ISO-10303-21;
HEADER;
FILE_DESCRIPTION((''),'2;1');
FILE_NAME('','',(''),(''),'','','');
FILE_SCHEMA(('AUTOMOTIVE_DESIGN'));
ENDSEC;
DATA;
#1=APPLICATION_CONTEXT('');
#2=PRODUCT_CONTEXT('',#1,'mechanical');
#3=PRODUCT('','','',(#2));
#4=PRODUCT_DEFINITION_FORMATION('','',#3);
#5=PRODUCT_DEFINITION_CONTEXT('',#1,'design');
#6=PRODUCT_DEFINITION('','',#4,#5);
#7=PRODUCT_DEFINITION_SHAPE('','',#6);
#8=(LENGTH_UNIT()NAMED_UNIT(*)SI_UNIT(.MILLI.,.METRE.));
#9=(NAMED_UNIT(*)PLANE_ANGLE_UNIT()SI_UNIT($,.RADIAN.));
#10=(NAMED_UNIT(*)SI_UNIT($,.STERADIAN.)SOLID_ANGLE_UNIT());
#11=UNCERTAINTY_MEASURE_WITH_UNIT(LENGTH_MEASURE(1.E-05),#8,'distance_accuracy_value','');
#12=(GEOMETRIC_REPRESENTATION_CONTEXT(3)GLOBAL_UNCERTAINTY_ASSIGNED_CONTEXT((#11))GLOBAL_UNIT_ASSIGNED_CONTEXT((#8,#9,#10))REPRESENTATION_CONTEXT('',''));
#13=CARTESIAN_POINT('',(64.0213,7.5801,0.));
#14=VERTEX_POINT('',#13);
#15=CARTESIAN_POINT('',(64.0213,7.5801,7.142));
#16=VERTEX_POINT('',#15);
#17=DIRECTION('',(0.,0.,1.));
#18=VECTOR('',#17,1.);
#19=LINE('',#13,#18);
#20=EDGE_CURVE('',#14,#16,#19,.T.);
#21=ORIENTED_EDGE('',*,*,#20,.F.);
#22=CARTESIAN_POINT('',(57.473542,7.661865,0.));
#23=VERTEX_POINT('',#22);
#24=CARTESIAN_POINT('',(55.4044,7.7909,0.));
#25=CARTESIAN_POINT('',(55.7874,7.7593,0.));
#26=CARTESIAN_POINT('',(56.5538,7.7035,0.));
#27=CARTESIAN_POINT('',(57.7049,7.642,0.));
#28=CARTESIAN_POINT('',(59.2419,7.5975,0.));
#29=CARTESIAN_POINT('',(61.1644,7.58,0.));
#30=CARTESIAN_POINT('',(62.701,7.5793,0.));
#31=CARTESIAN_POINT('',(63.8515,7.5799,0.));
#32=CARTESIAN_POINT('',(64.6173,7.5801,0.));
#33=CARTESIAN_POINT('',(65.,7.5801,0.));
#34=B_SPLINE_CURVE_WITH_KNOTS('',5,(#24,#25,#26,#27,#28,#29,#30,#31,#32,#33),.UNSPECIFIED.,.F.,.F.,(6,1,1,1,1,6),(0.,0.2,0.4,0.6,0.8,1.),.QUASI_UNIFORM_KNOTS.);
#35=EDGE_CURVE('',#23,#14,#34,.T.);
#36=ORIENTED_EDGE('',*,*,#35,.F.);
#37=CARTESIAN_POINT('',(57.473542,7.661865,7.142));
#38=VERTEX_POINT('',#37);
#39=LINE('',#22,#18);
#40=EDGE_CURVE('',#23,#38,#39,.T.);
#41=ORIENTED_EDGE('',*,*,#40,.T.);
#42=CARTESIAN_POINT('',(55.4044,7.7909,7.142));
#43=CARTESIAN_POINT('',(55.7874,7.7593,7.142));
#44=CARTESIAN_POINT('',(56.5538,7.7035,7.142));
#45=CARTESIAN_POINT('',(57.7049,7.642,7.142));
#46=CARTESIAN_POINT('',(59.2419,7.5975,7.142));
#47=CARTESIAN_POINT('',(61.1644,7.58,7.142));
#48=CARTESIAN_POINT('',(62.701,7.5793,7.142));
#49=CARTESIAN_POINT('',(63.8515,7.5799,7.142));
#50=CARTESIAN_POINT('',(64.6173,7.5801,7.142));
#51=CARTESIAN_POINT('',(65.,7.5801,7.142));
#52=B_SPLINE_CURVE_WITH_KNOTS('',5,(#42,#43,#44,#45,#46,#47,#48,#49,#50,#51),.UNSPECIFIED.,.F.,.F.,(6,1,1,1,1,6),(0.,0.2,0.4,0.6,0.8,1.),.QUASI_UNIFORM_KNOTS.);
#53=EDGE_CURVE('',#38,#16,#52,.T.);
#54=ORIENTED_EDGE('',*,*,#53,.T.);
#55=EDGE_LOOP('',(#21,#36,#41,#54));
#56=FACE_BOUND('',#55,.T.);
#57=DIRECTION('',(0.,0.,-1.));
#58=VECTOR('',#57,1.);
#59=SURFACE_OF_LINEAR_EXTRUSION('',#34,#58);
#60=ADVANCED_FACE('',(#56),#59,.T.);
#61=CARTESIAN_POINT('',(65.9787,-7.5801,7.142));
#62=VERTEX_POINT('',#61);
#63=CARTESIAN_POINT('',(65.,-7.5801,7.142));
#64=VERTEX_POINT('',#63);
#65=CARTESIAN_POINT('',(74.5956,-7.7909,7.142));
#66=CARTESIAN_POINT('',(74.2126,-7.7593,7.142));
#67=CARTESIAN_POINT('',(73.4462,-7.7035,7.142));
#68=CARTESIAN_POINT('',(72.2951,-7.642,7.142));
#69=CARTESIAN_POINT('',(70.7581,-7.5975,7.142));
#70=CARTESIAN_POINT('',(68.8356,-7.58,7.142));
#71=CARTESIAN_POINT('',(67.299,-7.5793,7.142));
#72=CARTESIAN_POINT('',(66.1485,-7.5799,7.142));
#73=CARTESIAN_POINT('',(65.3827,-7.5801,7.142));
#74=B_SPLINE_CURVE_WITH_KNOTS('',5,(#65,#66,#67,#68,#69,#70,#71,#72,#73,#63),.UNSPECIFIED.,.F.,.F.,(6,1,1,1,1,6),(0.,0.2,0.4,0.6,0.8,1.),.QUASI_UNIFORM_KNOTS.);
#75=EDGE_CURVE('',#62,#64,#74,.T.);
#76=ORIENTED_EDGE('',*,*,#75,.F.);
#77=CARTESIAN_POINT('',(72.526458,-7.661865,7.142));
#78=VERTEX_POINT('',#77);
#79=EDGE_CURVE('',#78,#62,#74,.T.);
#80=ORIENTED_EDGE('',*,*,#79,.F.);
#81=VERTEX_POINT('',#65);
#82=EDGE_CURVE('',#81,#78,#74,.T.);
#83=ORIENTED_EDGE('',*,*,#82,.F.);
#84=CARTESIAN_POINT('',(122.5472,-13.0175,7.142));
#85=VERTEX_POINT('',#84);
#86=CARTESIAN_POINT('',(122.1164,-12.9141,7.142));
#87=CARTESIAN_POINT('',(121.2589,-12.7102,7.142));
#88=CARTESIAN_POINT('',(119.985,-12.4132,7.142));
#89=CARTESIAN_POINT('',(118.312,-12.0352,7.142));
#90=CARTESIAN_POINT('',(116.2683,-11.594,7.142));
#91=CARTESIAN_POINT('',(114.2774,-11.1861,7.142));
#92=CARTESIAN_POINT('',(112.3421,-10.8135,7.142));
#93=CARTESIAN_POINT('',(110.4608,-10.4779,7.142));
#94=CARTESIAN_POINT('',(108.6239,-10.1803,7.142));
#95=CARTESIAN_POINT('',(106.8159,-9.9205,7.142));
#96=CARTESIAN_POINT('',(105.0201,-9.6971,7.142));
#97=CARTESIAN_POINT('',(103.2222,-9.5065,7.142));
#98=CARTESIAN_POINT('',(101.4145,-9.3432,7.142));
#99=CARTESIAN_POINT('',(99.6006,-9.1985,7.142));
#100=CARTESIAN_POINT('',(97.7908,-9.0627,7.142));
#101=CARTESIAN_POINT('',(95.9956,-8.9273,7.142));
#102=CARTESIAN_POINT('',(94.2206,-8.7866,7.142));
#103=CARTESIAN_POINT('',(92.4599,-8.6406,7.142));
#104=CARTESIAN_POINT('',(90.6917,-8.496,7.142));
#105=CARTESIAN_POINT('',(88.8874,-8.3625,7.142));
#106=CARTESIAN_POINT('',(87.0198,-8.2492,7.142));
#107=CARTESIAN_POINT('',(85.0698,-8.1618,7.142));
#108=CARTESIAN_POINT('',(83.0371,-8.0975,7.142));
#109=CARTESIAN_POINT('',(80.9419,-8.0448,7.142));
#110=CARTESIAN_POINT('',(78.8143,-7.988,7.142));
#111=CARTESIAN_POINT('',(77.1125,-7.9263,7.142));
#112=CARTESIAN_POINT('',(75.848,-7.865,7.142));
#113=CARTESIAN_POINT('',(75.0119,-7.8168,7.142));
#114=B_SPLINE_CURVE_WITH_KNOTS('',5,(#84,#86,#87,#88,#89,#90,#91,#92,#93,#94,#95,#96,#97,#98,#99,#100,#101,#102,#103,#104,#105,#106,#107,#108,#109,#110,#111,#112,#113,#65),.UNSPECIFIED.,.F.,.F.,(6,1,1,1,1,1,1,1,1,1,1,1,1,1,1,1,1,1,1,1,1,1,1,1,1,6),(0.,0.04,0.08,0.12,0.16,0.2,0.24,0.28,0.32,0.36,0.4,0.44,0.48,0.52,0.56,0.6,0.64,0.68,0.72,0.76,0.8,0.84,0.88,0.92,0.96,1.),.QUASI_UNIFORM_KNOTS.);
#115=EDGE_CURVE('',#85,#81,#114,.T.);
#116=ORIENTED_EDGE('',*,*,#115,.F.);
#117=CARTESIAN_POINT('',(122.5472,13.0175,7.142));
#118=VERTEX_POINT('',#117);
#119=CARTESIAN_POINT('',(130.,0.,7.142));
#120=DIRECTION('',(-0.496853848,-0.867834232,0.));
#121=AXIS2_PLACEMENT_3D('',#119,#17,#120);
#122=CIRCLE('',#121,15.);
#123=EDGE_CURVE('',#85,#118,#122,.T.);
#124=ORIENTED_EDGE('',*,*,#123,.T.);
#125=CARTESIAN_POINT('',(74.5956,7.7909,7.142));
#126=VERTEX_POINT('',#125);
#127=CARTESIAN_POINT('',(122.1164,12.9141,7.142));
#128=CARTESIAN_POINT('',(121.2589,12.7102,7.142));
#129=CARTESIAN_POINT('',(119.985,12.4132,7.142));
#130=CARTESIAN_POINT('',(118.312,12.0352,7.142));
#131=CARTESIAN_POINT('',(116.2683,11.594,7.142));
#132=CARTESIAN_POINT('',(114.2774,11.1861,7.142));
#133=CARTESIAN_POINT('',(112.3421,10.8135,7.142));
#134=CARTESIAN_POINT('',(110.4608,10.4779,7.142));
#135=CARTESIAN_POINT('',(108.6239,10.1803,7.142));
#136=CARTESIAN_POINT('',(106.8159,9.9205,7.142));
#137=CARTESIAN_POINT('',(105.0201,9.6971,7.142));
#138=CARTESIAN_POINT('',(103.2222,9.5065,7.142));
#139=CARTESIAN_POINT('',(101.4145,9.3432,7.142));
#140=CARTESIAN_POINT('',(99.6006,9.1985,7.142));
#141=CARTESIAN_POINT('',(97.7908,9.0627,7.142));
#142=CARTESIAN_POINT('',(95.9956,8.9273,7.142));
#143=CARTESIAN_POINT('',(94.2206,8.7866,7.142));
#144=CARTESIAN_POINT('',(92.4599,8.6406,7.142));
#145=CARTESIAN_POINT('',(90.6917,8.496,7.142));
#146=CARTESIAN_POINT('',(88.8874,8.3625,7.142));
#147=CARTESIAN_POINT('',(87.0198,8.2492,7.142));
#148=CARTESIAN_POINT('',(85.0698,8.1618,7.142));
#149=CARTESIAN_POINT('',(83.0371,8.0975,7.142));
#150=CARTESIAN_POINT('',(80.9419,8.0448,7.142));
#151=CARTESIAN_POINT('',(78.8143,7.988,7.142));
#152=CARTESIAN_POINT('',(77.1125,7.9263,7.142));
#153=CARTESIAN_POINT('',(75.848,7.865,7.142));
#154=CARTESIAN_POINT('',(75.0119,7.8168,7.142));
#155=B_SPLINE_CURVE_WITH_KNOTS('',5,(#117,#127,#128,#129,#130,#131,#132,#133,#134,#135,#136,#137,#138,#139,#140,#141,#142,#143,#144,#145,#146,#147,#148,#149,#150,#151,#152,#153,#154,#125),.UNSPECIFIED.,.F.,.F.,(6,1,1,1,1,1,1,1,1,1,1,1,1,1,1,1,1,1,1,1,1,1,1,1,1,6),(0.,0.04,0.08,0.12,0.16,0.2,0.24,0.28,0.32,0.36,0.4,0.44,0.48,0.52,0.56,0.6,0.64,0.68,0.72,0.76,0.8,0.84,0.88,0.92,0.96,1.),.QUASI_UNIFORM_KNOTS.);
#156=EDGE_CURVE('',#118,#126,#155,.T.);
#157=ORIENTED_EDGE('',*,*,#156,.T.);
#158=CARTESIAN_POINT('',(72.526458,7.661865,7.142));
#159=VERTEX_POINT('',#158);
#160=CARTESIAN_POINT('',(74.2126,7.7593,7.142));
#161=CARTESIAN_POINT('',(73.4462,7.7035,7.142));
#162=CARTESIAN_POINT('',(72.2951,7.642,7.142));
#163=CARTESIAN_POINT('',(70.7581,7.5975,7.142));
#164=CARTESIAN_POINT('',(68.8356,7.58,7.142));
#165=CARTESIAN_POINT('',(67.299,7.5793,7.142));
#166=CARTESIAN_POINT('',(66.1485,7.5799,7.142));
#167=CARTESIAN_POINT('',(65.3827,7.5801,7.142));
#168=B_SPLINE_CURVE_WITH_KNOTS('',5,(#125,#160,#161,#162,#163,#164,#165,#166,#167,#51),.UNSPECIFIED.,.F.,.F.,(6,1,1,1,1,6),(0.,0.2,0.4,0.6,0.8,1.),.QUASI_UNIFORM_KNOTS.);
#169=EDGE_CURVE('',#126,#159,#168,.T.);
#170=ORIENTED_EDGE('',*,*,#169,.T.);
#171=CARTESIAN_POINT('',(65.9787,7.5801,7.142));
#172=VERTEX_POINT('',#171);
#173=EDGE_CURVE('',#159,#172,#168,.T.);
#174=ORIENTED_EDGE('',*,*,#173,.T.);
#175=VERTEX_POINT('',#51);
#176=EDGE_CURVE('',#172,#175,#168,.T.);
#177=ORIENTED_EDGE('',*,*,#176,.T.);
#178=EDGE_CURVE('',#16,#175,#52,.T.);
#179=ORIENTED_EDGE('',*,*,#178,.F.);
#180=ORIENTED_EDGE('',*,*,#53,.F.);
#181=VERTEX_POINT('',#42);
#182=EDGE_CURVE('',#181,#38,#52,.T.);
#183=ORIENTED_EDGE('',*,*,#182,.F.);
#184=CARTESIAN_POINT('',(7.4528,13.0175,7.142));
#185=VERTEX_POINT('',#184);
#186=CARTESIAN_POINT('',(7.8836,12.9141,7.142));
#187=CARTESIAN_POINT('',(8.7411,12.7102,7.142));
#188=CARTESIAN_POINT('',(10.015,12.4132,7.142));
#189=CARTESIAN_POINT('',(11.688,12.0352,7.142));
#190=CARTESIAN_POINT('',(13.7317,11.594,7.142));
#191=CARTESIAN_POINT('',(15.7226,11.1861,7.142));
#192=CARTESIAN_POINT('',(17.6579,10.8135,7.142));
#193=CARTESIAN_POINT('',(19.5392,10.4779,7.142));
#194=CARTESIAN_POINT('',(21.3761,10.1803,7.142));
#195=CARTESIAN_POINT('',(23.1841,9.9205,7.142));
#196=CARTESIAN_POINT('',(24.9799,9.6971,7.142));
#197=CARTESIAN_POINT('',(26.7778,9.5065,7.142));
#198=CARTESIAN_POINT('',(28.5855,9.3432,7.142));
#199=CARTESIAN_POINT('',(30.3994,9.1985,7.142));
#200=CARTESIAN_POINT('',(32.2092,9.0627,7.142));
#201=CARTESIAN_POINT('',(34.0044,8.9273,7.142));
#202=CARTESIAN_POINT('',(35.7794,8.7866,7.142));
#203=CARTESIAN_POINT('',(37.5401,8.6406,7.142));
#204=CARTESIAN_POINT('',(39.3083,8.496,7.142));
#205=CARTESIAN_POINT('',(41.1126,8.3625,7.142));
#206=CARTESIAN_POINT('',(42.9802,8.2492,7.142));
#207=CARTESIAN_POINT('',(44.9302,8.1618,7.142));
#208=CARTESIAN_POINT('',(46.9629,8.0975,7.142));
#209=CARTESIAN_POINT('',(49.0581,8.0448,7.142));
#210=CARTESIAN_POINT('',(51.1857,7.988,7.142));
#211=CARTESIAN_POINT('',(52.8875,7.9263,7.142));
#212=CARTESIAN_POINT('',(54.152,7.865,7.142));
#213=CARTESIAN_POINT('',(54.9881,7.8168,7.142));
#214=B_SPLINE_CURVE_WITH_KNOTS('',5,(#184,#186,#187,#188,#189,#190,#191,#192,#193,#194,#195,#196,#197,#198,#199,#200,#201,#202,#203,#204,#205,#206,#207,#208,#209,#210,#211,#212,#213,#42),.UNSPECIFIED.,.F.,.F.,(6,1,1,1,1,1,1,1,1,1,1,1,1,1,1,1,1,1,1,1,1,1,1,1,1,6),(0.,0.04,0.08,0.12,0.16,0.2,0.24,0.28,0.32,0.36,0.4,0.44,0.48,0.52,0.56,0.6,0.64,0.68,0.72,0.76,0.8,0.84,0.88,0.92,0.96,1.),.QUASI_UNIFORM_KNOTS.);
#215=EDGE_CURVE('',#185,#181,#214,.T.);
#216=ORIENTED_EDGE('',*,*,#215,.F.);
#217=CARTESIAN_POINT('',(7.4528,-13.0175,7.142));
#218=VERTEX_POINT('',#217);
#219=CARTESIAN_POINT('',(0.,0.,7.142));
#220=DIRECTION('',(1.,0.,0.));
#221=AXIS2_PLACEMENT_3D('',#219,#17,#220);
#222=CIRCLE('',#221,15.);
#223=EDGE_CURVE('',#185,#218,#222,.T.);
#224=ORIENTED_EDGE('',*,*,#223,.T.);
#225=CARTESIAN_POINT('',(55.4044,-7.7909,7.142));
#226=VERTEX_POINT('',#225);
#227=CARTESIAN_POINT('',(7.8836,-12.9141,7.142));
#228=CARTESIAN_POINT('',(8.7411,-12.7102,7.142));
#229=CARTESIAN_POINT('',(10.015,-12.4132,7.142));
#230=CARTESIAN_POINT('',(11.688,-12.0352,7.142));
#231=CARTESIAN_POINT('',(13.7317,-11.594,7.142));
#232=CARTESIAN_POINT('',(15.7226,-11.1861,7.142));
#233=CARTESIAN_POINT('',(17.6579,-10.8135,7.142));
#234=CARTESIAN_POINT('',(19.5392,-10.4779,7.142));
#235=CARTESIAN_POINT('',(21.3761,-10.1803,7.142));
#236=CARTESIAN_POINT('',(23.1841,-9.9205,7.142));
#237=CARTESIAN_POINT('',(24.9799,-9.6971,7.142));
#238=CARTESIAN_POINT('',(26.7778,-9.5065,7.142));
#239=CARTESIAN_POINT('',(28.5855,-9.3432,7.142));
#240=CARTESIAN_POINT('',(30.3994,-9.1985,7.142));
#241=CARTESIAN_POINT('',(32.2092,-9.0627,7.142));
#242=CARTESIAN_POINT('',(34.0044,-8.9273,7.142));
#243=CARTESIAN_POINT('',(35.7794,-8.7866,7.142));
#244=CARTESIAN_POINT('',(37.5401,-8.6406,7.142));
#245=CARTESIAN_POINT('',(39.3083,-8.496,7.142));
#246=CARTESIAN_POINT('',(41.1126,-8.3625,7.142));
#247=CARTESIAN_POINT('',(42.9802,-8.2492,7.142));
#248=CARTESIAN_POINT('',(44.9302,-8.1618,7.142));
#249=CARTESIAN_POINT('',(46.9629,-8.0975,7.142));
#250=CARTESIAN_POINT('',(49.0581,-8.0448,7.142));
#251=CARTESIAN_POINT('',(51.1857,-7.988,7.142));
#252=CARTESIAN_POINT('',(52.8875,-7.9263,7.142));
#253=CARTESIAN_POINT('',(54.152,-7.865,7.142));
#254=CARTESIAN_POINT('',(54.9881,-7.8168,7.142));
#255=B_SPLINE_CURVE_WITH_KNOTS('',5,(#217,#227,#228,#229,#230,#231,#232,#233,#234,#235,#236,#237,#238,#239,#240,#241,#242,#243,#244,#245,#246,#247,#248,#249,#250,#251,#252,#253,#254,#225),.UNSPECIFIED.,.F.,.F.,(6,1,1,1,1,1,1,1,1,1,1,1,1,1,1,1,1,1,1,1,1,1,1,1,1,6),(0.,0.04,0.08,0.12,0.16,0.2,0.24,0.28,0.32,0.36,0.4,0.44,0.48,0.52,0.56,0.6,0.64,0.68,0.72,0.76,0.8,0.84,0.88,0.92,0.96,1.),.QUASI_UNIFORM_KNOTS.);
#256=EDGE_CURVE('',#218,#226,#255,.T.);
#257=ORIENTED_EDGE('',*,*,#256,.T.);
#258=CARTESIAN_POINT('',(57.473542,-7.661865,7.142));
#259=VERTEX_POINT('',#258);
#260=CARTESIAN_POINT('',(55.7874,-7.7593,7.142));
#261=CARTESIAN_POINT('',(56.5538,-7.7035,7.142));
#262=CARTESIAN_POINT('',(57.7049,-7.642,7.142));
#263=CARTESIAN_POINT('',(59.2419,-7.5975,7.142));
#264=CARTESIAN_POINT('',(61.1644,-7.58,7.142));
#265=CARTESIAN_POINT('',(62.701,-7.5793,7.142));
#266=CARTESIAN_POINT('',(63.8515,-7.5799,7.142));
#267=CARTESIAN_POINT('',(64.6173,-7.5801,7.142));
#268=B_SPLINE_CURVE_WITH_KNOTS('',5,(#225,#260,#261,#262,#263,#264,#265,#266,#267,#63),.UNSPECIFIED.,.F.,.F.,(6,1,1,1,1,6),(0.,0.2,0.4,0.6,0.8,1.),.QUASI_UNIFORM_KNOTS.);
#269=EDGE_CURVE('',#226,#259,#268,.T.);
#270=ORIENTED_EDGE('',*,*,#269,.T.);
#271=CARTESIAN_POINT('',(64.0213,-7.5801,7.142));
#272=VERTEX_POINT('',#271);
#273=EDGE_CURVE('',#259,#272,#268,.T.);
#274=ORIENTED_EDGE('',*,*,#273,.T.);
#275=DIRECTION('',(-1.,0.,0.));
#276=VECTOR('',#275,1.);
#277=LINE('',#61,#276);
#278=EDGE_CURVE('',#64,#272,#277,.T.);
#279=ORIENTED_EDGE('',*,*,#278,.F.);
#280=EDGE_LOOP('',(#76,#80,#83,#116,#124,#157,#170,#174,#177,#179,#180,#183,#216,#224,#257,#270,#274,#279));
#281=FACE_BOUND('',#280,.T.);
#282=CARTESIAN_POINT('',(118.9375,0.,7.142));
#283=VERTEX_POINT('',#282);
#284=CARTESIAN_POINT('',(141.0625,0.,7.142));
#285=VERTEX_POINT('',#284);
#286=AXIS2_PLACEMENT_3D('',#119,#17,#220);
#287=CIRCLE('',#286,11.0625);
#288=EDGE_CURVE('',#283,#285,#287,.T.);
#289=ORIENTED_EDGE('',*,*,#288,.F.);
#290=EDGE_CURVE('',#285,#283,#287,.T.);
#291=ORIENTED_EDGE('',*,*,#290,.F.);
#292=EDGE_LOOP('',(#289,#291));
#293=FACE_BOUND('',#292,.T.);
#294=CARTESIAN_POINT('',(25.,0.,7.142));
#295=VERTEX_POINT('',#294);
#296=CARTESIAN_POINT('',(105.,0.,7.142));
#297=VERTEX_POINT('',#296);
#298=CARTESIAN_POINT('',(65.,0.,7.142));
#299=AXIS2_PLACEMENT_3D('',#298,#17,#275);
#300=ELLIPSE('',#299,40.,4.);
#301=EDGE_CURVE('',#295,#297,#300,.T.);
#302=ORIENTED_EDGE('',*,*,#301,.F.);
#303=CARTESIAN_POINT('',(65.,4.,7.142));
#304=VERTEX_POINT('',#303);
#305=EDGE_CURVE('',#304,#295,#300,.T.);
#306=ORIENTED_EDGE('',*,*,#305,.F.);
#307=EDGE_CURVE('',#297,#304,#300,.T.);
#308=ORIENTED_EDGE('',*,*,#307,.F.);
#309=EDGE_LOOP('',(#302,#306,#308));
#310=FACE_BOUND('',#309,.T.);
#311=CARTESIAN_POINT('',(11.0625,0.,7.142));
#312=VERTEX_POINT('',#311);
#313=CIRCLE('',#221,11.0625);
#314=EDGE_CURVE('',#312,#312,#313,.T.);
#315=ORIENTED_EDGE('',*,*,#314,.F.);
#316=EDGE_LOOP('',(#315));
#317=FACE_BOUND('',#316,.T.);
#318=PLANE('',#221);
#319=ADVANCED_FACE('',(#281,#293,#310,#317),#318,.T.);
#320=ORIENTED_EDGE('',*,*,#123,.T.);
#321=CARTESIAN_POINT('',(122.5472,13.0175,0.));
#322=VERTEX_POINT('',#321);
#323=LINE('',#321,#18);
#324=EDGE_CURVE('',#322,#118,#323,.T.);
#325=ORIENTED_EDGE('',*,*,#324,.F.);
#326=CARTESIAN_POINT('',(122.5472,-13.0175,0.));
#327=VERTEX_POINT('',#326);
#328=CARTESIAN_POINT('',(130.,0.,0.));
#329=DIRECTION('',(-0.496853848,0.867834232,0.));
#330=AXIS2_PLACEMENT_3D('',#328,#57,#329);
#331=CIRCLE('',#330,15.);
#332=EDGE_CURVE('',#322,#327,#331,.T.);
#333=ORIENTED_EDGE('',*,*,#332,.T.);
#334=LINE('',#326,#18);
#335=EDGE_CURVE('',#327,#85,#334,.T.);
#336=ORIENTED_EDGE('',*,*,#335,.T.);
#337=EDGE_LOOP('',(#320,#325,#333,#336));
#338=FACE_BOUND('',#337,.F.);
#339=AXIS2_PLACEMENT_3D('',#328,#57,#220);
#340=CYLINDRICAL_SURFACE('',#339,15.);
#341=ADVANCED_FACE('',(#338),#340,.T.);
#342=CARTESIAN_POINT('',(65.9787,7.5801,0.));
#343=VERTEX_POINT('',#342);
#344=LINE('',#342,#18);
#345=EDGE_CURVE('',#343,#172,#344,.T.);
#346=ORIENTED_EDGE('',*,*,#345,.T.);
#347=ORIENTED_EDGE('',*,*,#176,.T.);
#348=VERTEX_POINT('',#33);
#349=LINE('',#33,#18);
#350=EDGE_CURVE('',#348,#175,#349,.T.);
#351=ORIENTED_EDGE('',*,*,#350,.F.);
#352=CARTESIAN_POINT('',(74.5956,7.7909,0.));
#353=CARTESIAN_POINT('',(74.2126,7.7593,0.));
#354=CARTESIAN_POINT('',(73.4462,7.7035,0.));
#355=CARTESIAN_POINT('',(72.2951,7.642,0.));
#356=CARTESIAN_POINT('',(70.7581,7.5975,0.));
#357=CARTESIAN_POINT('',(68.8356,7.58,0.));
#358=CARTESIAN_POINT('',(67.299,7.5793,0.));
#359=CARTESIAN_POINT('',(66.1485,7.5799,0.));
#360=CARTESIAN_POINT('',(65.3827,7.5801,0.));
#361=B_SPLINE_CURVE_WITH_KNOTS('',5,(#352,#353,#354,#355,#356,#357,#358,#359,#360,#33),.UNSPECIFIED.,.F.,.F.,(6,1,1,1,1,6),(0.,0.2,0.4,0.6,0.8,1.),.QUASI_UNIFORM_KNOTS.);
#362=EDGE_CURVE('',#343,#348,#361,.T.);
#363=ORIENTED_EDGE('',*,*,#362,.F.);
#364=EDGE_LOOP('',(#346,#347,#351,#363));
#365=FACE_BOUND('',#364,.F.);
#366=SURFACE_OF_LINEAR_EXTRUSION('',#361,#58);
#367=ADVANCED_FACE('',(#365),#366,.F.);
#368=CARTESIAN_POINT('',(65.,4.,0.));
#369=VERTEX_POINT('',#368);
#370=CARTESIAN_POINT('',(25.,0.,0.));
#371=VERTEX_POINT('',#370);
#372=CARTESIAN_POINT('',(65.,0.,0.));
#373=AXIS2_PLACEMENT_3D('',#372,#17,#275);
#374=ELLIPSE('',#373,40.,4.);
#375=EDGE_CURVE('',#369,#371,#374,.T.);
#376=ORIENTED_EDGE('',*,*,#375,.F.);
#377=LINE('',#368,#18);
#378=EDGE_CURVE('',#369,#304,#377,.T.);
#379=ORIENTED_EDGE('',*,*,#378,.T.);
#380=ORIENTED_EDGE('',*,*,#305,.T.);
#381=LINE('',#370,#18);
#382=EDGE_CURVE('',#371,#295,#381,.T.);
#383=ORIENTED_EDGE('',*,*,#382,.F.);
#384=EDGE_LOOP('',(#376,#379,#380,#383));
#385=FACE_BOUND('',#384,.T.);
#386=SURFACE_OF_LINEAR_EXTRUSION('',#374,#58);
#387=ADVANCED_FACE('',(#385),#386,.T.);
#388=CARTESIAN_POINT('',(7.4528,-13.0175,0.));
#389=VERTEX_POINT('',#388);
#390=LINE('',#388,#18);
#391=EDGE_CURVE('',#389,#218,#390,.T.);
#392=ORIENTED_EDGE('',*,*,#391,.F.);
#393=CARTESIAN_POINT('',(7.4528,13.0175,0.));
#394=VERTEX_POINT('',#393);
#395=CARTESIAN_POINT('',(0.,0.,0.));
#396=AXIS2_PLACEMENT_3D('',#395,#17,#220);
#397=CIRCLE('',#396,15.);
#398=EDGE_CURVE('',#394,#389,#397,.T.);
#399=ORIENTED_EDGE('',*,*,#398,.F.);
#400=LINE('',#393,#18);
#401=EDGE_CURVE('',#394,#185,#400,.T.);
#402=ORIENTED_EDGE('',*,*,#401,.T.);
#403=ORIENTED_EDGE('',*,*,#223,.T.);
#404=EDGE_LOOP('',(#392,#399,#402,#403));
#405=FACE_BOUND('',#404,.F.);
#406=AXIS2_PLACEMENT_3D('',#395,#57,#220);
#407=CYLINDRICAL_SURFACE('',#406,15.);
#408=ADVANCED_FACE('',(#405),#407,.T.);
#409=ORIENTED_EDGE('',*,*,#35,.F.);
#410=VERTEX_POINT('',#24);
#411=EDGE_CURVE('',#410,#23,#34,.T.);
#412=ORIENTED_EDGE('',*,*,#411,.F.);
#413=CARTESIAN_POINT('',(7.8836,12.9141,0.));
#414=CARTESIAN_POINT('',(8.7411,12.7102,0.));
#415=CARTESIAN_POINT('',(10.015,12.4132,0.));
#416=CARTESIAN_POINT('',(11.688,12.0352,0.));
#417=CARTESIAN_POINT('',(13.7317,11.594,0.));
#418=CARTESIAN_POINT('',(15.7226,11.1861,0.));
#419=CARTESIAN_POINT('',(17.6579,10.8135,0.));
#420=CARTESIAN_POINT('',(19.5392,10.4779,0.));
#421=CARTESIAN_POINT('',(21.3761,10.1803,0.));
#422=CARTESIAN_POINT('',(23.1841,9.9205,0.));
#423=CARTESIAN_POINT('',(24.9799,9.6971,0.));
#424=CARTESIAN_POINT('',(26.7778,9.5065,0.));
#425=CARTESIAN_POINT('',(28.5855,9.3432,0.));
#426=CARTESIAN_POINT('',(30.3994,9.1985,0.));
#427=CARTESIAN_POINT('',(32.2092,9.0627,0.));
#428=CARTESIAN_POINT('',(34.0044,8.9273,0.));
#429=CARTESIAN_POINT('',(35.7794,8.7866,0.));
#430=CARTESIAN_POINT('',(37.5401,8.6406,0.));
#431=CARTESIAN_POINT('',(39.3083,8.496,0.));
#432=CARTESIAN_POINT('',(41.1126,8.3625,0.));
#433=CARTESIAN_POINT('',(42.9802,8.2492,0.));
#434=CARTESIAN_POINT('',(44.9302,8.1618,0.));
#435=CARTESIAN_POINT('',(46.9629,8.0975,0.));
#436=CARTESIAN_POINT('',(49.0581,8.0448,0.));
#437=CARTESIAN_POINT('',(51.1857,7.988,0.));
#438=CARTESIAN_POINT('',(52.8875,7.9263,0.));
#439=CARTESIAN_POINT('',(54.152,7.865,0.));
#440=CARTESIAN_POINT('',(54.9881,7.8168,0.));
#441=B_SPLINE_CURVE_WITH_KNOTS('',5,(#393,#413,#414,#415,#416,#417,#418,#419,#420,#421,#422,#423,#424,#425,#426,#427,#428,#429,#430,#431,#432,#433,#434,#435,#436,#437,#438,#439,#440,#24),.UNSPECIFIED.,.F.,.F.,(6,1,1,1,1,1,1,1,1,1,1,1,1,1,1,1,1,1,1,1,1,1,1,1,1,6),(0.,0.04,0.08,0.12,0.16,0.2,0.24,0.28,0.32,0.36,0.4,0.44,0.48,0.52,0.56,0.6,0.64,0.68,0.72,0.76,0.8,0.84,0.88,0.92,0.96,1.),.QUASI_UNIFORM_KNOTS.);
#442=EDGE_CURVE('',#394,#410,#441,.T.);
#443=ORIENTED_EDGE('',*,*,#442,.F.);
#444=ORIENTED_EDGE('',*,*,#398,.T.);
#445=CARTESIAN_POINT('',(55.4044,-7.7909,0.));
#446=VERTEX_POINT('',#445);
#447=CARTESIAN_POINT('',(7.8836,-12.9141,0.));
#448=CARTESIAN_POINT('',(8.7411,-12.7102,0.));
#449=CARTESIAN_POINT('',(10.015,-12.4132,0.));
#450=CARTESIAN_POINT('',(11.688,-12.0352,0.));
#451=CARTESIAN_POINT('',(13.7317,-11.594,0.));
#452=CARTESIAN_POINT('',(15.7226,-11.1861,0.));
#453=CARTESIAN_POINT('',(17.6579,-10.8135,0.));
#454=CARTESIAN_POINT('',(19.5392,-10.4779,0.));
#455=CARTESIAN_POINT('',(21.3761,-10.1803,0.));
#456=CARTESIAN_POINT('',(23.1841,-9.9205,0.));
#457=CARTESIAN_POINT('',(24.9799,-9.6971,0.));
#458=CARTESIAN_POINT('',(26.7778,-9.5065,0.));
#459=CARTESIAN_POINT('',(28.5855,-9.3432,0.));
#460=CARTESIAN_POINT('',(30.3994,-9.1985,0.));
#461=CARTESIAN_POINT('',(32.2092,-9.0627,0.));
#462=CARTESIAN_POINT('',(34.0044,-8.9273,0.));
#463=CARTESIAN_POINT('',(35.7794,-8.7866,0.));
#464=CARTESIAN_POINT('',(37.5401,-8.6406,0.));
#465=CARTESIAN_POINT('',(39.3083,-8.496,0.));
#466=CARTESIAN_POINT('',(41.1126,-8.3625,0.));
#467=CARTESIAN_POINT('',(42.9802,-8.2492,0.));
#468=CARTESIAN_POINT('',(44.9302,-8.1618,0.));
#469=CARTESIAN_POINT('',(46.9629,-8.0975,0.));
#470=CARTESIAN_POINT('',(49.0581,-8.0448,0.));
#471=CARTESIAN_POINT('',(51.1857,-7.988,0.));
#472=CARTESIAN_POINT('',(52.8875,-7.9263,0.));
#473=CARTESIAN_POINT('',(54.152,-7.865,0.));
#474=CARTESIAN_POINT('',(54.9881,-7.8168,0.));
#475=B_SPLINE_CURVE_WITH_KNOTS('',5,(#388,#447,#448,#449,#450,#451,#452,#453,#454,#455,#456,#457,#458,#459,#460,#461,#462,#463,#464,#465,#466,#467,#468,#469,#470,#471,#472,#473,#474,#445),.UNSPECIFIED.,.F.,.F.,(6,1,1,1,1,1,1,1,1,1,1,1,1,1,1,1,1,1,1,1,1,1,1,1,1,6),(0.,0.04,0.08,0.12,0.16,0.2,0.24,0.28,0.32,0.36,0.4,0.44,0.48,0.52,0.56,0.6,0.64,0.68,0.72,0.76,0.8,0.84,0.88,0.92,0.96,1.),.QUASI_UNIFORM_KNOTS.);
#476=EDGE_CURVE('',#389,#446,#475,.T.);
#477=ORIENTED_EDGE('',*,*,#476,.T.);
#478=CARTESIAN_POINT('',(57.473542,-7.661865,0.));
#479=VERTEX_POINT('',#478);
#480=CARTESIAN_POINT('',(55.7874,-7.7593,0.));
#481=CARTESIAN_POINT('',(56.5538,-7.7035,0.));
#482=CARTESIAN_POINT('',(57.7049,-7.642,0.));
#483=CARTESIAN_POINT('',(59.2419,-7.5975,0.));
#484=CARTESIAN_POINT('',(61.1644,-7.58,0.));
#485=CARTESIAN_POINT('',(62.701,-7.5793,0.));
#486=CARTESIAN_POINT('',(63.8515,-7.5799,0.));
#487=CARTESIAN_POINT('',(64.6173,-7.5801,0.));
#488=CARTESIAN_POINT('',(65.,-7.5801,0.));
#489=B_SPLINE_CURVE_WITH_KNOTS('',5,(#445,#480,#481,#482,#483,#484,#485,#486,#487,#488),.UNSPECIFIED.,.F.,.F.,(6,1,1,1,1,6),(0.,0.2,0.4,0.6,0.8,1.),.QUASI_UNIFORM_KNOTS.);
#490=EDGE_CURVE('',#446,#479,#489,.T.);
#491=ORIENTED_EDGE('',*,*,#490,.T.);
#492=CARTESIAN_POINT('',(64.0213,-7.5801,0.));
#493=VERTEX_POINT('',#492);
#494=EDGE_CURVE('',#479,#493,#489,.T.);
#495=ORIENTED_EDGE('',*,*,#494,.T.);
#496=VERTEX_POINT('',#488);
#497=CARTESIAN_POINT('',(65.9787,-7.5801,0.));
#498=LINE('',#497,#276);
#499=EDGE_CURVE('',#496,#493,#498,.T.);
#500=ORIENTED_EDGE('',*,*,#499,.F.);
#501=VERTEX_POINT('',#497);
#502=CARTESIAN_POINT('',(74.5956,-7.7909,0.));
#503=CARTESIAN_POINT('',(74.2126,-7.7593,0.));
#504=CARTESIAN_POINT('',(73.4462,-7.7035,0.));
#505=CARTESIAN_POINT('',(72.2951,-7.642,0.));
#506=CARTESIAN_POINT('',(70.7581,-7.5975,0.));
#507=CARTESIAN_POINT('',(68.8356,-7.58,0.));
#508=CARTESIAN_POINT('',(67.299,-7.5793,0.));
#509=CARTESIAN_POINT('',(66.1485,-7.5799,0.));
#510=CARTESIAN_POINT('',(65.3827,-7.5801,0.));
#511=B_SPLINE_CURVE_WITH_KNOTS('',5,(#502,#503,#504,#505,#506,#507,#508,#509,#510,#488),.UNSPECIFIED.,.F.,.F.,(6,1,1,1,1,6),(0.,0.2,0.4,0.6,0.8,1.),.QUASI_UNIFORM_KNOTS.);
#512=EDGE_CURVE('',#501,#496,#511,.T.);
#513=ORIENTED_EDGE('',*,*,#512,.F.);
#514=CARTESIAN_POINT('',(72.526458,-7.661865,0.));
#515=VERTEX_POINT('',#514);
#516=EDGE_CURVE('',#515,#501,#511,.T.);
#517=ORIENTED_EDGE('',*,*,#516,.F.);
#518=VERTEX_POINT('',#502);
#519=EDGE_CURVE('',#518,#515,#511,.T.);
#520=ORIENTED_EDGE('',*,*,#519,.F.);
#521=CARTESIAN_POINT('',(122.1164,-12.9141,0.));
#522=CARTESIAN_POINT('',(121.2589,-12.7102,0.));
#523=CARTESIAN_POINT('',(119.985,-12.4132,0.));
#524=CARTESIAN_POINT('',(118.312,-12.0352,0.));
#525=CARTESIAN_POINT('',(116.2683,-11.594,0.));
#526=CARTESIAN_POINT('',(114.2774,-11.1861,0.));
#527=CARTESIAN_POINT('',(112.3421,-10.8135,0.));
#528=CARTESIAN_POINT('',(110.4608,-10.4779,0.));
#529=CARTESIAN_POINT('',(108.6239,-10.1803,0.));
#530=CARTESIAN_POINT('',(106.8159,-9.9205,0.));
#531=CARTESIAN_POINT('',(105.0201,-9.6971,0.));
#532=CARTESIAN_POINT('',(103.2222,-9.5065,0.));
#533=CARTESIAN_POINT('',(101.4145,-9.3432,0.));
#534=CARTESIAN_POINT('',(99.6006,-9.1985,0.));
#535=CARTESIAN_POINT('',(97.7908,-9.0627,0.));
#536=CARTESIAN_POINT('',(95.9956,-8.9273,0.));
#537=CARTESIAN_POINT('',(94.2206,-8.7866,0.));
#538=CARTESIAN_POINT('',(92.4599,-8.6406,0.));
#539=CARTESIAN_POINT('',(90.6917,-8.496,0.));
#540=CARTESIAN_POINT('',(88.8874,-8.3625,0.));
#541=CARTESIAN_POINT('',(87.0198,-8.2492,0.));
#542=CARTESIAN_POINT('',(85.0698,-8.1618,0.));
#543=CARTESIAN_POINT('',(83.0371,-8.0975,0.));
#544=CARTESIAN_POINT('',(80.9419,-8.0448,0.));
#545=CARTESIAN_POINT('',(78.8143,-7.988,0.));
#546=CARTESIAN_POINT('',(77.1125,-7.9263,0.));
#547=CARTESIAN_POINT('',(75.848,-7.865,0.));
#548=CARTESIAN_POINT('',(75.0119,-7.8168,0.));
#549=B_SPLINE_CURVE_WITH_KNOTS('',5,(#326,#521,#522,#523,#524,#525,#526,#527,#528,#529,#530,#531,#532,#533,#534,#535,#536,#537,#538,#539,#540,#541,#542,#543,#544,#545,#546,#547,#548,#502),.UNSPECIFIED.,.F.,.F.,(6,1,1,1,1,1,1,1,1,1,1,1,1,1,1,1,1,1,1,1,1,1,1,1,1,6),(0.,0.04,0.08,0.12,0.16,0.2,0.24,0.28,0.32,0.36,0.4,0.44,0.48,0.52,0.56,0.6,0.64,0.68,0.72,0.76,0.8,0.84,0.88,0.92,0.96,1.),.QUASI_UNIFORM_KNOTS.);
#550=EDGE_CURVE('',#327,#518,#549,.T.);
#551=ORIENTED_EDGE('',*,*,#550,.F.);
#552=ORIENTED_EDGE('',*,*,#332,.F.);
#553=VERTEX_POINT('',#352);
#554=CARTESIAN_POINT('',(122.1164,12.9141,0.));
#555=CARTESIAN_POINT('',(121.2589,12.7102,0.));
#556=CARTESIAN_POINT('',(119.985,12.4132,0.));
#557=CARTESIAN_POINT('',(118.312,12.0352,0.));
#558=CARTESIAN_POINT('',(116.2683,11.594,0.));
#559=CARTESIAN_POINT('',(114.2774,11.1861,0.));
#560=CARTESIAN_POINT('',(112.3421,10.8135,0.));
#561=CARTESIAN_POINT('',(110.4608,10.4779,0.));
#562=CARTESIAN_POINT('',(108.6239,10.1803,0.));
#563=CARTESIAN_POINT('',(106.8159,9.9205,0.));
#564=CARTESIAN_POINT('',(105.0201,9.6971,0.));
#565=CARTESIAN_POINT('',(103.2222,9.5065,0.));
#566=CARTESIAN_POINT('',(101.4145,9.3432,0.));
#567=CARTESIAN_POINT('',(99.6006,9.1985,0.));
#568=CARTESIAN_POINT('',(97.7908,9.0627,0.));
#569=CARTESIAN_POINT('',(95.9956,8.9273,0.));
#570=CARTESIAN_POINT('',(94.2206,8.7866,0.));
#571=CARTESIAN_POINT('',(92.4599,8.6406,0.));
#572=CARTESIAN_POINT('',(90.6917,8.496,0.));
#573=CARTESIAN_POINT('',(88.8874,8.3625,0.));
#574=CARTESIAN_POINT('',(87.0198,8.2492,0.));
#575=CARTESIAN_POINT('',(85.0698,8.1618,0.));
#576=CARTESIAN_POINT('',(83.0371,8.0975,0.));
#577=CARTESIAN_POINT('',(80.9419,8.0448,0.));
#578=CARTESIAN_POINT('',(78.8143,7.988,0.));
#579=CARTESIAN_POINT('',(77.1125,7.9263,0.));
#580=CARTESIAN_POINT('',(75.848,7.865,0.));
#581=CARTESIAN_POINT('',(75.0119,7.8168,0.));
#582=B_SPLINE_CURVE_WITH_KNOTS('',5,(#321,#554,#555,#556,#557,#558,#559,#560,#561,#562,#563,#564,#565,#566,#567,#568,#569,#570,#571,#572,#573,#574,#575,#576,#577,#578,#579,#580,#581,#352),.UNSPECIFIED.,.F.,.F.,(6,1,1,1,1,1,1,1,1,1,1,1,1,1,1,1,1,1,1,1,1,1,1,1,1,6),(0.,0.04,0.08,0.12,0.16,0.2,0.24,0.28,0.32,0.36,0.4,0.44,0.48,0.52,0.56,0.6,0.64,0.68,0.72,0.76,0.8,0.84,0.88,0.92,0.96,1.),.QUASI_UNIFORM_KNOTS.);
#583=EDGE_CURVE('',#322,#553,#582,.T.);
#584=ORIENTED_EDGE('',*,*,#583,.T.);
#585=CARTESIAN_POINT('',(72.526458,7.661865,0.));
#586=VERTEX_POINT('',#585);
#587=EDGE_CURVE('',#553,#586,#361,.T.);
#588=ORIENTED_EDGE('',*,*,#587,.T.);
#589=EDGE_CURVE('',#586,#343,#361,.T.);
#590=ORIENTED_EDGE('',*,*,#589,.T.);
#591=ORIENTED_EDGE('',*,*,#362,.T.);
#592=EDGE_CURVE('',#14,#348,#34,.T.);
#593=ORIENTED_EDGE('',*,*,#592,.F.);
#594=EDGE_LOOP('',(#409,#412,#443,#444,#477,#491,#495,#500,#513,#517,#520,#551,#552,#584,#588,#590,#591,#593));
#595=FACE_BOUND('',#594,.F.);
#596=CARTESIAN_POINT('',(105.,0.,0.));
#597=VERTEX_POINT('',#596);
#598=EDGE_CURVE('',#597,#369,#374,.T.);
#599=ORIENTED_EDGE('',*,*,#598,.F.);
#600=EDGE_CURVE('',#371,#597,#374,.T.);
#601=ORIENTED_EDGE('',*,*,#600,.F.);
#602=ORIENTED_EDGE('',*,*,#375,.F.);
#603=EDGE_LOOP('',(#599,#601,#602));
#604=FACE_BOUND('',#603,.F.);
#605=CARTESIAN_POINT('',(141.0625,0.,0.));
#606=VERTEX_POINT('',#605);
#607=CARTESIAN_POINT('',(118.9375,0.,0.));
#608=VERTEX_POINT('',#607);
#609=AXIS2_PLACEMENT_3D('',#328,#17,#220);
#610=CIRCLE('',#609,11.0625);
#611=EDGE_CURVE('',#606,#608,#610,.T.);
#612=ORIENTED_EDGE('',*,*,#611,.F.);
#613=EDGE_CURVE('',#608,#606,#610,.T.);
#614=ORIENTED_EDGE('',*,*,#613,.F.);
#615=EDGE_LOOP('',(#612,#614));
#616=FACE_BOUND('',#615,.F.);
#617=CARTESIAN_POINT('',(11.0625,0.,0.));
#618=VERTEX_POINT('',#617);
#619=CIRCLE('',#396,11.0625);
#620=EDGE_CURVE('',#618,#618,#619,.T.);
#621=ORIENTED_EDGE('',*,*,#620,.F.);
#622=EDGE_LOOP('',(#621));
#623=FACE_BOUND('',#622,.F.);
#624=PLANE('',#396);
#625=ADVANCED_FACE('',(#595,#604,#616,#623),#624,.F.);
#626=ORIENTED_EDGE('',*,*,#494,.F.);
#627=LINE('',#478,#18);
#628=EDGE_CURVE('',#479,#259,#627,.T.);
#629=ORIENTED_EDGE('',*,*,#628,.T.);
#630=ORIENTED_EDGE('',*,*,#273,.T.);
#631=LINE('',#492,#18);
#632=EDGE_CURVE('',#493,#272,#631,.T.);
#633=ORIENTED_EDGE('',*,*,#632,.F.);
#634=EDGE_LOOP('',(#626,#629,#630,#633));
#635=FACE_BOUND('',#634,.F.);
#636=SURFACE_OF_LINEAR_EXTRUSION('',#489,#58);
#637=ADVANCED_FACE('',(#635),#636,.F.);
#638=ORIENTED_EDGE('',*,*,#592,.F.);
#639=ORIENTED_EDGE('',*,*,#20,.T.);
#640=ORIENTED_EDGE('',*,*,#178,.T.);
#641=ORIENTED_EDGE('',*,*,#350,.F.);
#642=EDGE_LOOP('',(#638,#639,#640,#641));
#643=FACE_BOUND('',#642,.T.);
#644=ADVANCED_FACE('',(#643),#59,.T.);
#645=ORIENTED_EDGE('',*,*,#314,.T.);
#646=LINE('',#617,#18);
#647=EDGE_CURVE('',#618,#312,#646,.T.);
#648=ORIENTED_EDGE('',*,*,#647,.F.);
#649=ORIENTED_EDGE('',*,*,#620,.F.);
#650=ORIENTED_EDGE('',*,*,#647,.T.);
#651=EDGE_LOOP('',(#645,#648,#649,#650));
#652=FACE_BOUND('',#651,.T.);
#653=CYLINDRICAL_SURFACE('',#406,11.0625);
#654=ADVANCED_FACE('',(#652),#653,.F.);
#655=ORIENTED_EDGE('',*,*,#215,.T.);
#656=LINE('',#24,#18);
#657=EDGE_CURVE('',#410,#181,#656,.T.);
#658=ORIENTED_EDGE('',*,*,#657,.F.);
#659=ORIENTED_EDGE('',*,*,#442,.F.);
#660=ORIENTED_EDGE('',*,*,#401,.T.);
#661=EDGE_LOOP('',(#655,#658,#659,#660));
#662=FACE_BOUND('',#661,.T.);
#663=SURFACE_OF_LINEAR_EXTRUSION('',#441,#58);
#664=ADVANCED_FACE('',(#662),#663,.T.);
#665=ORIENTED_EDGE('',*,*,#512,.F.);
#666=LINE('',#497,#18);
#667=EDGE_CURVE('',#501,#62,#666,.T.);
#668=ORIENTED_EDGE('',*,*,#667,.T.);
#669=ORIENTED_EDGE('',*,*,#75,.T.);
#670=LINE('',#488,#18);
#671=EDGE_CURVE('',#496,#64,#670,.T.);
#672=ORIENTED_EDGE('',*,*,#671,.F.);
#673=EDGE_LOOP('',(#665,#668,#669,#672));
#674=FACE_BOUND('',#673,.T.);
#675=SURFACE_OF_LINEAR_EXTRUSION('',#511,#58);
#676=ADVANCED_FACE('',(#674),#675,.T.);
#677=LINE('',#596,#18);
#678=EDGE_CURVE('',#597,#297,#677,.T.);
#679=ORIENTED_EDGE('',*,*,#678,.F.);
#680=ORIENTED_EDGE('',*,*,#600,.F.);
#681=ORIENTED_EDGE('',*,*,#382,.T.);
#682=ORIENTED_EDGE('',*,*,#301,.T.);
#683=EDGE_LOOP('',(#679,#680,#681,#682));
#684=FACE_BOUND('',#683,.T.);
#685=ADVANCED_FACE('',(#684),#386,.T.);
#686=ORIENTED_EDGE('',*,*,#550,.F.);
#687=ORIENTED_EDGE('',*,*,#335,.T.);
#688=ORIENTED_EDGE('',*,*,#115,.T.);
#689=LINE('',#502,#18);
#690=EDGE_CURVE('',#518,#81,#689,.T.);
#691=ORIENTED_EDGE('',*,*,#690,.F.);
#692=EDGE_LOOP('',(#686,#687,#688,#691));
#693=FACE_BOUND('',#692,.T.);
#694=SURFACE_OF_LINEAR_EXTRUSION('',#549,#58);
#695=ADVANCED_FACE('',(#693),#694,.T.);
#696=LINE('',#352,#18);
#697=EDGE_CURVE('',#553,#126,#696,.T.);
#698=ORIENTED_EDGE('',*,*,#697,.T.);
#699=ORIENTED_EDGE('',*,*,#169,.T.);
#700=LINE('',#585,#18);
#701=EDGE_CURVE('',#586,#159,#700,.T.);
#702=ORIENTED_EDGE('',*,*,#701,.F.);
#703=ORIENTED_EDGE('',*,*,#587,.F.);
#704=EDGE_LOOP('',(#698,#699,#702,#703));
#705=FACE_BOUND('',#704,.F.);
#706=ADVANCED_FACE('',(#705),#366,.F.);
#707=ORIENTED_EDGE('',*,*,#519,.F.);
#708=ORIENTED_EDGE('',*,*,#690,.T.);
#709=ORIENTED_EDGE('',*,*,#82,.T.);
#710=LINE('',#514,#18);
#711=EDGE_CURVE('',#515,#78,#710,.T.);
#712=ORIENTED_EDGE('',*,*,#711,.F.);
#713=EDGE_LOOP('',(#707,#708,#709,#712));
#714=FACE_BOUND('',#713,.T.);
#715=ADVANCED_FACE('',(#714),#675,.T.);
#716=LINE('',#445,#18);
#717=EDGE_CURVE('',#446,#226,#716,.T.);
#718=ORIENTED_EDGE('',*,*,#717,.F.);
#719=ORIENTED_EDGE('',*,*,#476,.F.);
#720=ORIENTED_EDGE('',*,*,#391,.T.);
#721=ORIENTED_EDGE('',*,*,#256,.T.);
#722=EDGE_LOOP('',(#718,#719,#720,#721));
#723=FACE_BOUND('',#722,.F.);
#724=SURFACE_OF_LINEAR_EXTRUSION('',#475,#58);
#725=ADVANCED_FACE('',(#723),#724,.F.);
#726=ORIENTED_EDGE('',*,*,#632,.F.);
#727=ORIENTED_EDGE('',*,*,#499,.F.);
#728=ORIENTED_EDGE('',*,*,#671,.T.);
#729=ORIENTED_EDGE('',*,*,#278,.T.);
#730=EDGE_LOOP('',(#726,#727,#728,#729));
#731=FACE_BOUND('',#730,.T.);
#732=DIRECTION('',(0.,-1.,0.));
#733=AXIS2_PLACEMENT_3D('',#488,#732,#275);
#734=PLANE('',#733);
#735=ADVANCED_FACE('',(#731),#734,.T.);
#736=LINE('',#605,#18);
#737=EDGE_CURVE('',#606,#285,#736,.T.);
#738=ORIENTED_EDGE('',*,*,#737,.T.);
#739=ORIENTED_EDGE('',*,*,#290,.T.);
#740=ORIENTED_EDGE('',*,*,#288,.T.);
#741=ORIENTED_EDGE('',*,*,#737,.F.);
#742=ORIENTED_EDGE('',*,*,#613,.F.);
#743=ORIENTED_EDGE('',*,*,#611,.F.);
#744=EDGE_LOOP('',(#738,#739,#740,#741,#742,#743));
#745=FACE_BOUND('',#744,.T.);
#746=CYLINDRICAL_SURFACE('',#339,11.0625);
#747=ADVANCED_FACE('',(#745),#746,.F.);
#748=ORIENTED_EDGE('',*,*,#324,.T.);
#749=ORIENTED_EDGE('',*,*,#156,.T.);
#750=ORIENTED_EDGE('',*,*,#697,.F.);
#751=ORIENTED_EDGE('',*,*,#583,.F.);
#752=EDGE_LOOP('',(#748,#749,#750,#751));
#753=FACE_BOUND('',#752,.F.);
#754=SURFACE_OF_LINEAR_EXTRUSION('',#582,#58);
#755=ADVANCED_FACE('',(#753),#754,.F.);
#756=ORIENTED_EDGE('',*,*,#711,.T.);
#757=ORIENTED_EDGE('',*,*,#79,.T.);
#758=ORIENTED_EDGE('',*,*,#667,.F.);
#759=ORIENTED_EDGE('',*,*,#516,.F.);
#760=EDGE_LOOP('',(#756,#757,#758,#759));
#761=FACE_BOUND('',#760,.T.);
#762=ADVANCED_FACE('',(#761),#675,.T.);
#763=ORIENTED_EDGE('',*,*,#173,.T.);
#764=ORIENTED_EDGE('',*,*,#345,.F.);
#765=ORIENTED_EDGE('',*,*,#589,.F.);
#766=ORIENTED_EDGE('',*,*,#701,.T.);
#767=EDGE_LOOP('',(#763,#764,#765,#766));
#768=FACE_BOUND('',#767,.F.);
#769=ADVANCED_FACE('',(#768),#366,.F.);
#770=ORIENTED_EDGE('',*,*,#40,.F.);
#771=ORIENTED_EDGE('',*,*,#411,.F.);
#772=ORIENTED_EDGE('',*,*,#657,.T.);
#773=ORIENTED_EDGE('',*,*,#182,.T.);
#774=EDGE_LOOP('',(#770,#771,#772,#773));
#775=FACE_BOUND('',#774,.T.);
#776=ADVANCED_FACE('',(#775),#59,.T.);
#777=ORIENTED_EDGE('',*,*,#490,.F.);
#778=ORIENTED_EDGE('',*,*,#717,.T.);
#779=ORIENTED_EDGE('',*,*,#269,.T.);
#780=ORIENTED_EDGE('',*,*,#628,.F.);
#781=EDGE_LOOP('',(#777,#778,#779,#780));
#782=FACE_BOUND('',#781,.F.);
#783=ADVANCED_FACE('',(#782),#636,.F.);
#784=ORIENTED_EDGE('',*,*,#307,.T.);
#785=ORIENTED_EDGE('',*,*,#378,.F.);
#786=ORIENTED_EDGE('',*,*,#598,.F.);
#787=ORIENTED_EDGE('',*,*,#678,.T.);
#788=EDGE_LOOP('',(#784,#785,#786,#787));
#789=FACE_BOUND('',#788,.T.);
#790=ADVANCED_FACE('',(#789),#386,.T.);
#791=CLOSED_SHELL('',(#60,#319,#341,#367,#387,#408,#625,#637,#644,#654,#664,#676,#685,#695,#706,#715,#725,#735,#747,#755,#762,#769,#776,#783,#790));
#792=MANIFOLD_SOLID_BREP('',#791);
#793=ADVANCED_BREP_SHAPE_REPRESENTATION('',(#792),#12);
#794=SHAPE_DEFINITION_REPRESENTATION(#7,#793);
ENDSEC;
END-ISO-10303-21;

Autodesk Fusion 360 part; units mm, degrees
sketch "Sketch1" plane through (0, 0, 0) normal (0, 0, 1) x (1, 0, 0)
  circle A0 centre (0, 0) radius 11.0625
  circle A1 centre (0, 0) radius 15
  line L0 (0, 0) -> (130, 0)
  circle A2 centre (130, 0) radius 11.0625
  circle A3 centre (130, 0) radius 15
  line L1 (0, 0) -> (65, 0)
  spline S0 degree 5 poles (7.4528, 13.0175) (7.8836, 12.9141) (8.7411, 12.7102) (10.015, 12.4132) (11.688, 12.0352) (13.7317, 11.594) (15.7226, 11.1861) (17.6579, 10.8135) (19.5392, 10.4779) (21.3761, 10.1803) (23.1841, 9.9205) (24.9799, 9.6971) (26.7778, 9.5065) (28.5855, 9.3432) (30.3994, 9.1985) (32.2092, 9.0627) (34.0044, 8.9273) (35.7794, 8.7866) (37.5401, 8.6406) (39.3083, 8.496) (41.1126, 8.3625) (42.9802, 8.2492) (44.9302, 8.1618) (46.9629, 8.0975) (49.0581, 8.0448) (51.1857, 7.988) (52.8875, 7.9263) (54.152, 7.865) (54.9881, 7.8168) (55.4044, 7.7909) knots 0 0 0 0 0 0 0.04 0.08 0.12 0.16 0.2 0.24 0.28 0.32 0.36 0.4 0.44 0.48 0.52 0.56 0.6 0.64 0.68 0.72 0.76 0.8 0.84 0.88 0.92 0.96 1 1 1 1 1 1
  line L2 (65, 0) -> (65, 43.1808)
  spline S1 degree 5 poles (55.4044, 7.7909) (55.7874, 7.7593) (56.5538, 7.7035) (57.7049, 7.642) (59.2419, 7.5975) (61.1644, 7.58) (62.701, 7.5793) (63.8515, 7.5799) (64.6173, 7.5801) (65, 7.5801) knots 0 0 0 0 0 0 0.2 0.4 0.6 0.8 1 1 1 1 1 1
  spline S2 degree 5 poles (122.5472, 13.0175) (122.1164, 12.9141) (121.2589, 12.7102) (119.985, 12.4132) (118.312, 12.0352) (116.2683, 11.594) (114.2774, 11.1861) (112.3421, 10.8135) (110.4608, 10.4779) (108.6239, 10.1803) (106.8159, 9.9205) (105.0201, 9.6971) (103.2222, 9.5065) (101.4145, 9.3432) (99.6006, 9.1985) (97.7908, 9.0627) (95.9956, 8.9273) (94.2206, 8.7866) (92.4599, 8.6406) (90.6917, 8.496) (88.8874, 8.3625) (87.0198, 8.2492) (85.0698, 8.1618) (83.0371, 8.0975) (80.9419, 8.0448) (78.8143, 7.988) (77.1125, 7.9263) (75.848, 7.865) (75.0119, 7.8168) (74.5956, 7.7909) knots 0 0 0 0 0 0 0.04 0.08 0.12 0.16 0.2 0.24 0.28 0.32 0.36 0.4 0.44 0.48 0.52 0.56 0.6 0.64 0.68 0.72 0.76 0.8 0.84 0.88 0.92 0.96 1 1 1 1 1 1
  line L3 (2.3089, 14.2524) -> (12.5967, 11.7826)
  line L4 (50.4549, 8.0994) -> (60.354, 7.4823)
  line L5 (127.6911, 14.2524) -> (117.4033, 11.7826)
  line L6 (79.5451, 8.0994) -> (69.646, 7.4823)
  spline S3 degree 5 poles (74.5956, 7.7909) (74.2126, 7.7593) (73.4462, 7.7035) (72.2951, 7.642) (70.7581, 7.5975) (68.8356, 7.58) (67.299, 7.5793) (66.1485, 7.5799) (65.3827, 7.5801) (65, 7.5801) knots 0 0 0 0 0 0 0.2 0.4 0.6 0.8 1 1 1 1 1 1
  line L7 (54.4257, 7.8715) -> (56.3832, 7.7102)
  line L8 (64.0213, 7.5801) -> (65.9787, 7.5801)
  line L9 (75.5743, 7.8715) -> (73.6168, 7.7102)
  line L10 (65.9787, 7.5801) -> (64.0213, 7.5801)
  spline S4 degree 5 poles (122.5472, -13.0175) (122.1164, -12.9141) (121.2589, -12.7102) (119.985, -12.4132) (118.312, -12.0352) (116.2683, -11.594) (114.2774, -11.1861) (112.3421, -10.8135) (110.4608, -10.4779) (108.6239, -10.1803) (106.8159, -9.9205) (105.0201, -9.6971) (103.2222, -9.5065) (101.4145, -9.3432) (99.6006, -9.1985) (97.7908, -9.0627) (95.9956, -8.9273) (94.2206, -8.7866) (92.4599, -8.6406) (90.6917, -8.496) (88.8874, -8.3625) (87.0198, -8.2492) (85.0698, -8.1618) (83.0371, -8.0975) (80.9419, -8.0448) (78.8143, -7.988) (77.1125, -7.9263) (75.848, -7.865) (75.0119, -7.8168) (74.5956, -7.7909) knots 0 0 0 0 0 0 0.04 0.08 0.12 0.16 0.2 0.24 0.28 0.32 0.36 0.4 0.44 0.48 0.52 0.56 0.6 0.64 0.68 0.72 0.76 0.8 0.84 0.88 0.92 0.96 1 1 1 1 1 1
  line L11 (127.6911, -14.2524) -> (117.4033, -11.7826)
  line L12 (79.5451, -8.0994) -> (69.646, -7.4823)
  spline S5 degree 5 poles (74.5956, -7.7909) (74.2126, -7.7593) (73.4462, -7.7035) (72.2951, -7.642) (70.7581, -7.5975) (68.8356, -7.58) (67.299, -7.5793) (66.1485, -7.5799) (65.3827, -7.5801) (65, -7.5801) knots 0 0 0 0 0 0 0.2 0.4 0.6 0.8 1 1 1 1 1 1
  line L13 (75.5743, -7.8715) -> (73.6168, -7.7102)
  line L14 (65.9787, -7.5801) -> (64.0213, -7.5801)
  spline S6 degree 5 poles (55.4044, -7.7909) (55.7874, -7.7593) (56.5538, -7.7035) (57.7049, -7.642) (59.2419, -7.5975) (61.1644, -7.58) (62.701, -7.5793) (63.8515, -7.5799) (64.6173, -7.5801) (65, -7.5801) knots 0 0 0 0 0 0 0.2 0.4 0.6 0.8 1 1 1 1 1 1
  line L15 (54.4257, -7.8715) -> (56.3832, -7.7102)
  line L16 (64.0213, -7.5801) -> (65.9787, -7.5801)
  spline S7 degree 5 poles (7.4528, -13.0175) (7.8836, -12.9141) (8.7411, -12.7102) (10.015, -12.4132) (11.688, -12.0352) (13.7317, -11.594) (15.7226, -11.1861) (17.6579, -10.8135) (19.5392, -10.4779) (21.3761, -10.1803) (23.1841, -9.9205) (24.9799, -9.6971) (26.7778, -9.5065) (28.5855, -9.3432) (30.3994, -9.1985) (32.2092, -9.0627) (34.0044, -8.9273) (35.7794, -8.7866) (37.5401, -8.6406) (39.3083, -8.496) (41.1126, -8.3625) (42.9802, -8.2492) (44.9302, -8.1618) (46.9629, -8.0975) (49.0581, -8.0448) (51.1857, -7.988) (52.8875, -7.9263) (54.152, -7.865) (54.9881, -7.8168) (55.4044, -7.7909) knots 0 0 0 0 0 0 0.04 0.08 0.12 0.16 0.2 0.24 0.28 0.32 0.36 0.4 0.44 0.48 0.52 0.56 0.6 0.64 0.68 0.72 0.76 0.8 0.84 0.88 0.92 0.96 1 1 1 1 1 1
  line L17 (2.3089, -14.2524) -> (12.5967, -11.7826)
  line L18 (50.4549, -8.0994) -> (60.354, -7.4823)
  ellipse E0 centre (65, 0) end of major axis (25, 0) minor radius 4
  line L19 (105, 0) -> (25, 0) construction
  line L20 (65, 4) -> (65, -4) construction
  point P0 (18.3178, 10.6996)
  point P1 (27.044, 9.4876)
  point P2 (35.5289, 8.8053)
  point P3 (44.207, 8.1979)
  point P4 (111.6822, 10.6996)
  point P5 (102.956, 9.4876)
  point P6 (94.4711, 8.8053)
  point P7 (85.793, 8.1979)
  point P8 (111.6822, -10.6996)
  point P9 (102.956, -9.4876)
  point P10 (94.4711, -8.8053)
  point P11 (85.793, -8.1979)
  point P12 (18.3178, -10.6996)
  point P13 (27.044, -9.4876)
  point P14 (35.5289, -8.8053)
  point P15 (44.207, -8.1979)
  dimension "d1" = 22.125
  dimension "d2" = 30
  dimension "d3" = 130
  dimension "d4" = 22.125
  dimension "d5" = 30
  dimension "d6" = 65
extrude "Extrude1" add sketch "Sketch1" along normal blind 7.142 contours A1 | A1 L0 L1 S0 L2 S1 L8 L10 E0 | A1 L0 A3 L1 S4 S5 L14 S6 L16 S7 E0 | L0 A3 L2 S2 S3 L8 L10 E0 | A3
